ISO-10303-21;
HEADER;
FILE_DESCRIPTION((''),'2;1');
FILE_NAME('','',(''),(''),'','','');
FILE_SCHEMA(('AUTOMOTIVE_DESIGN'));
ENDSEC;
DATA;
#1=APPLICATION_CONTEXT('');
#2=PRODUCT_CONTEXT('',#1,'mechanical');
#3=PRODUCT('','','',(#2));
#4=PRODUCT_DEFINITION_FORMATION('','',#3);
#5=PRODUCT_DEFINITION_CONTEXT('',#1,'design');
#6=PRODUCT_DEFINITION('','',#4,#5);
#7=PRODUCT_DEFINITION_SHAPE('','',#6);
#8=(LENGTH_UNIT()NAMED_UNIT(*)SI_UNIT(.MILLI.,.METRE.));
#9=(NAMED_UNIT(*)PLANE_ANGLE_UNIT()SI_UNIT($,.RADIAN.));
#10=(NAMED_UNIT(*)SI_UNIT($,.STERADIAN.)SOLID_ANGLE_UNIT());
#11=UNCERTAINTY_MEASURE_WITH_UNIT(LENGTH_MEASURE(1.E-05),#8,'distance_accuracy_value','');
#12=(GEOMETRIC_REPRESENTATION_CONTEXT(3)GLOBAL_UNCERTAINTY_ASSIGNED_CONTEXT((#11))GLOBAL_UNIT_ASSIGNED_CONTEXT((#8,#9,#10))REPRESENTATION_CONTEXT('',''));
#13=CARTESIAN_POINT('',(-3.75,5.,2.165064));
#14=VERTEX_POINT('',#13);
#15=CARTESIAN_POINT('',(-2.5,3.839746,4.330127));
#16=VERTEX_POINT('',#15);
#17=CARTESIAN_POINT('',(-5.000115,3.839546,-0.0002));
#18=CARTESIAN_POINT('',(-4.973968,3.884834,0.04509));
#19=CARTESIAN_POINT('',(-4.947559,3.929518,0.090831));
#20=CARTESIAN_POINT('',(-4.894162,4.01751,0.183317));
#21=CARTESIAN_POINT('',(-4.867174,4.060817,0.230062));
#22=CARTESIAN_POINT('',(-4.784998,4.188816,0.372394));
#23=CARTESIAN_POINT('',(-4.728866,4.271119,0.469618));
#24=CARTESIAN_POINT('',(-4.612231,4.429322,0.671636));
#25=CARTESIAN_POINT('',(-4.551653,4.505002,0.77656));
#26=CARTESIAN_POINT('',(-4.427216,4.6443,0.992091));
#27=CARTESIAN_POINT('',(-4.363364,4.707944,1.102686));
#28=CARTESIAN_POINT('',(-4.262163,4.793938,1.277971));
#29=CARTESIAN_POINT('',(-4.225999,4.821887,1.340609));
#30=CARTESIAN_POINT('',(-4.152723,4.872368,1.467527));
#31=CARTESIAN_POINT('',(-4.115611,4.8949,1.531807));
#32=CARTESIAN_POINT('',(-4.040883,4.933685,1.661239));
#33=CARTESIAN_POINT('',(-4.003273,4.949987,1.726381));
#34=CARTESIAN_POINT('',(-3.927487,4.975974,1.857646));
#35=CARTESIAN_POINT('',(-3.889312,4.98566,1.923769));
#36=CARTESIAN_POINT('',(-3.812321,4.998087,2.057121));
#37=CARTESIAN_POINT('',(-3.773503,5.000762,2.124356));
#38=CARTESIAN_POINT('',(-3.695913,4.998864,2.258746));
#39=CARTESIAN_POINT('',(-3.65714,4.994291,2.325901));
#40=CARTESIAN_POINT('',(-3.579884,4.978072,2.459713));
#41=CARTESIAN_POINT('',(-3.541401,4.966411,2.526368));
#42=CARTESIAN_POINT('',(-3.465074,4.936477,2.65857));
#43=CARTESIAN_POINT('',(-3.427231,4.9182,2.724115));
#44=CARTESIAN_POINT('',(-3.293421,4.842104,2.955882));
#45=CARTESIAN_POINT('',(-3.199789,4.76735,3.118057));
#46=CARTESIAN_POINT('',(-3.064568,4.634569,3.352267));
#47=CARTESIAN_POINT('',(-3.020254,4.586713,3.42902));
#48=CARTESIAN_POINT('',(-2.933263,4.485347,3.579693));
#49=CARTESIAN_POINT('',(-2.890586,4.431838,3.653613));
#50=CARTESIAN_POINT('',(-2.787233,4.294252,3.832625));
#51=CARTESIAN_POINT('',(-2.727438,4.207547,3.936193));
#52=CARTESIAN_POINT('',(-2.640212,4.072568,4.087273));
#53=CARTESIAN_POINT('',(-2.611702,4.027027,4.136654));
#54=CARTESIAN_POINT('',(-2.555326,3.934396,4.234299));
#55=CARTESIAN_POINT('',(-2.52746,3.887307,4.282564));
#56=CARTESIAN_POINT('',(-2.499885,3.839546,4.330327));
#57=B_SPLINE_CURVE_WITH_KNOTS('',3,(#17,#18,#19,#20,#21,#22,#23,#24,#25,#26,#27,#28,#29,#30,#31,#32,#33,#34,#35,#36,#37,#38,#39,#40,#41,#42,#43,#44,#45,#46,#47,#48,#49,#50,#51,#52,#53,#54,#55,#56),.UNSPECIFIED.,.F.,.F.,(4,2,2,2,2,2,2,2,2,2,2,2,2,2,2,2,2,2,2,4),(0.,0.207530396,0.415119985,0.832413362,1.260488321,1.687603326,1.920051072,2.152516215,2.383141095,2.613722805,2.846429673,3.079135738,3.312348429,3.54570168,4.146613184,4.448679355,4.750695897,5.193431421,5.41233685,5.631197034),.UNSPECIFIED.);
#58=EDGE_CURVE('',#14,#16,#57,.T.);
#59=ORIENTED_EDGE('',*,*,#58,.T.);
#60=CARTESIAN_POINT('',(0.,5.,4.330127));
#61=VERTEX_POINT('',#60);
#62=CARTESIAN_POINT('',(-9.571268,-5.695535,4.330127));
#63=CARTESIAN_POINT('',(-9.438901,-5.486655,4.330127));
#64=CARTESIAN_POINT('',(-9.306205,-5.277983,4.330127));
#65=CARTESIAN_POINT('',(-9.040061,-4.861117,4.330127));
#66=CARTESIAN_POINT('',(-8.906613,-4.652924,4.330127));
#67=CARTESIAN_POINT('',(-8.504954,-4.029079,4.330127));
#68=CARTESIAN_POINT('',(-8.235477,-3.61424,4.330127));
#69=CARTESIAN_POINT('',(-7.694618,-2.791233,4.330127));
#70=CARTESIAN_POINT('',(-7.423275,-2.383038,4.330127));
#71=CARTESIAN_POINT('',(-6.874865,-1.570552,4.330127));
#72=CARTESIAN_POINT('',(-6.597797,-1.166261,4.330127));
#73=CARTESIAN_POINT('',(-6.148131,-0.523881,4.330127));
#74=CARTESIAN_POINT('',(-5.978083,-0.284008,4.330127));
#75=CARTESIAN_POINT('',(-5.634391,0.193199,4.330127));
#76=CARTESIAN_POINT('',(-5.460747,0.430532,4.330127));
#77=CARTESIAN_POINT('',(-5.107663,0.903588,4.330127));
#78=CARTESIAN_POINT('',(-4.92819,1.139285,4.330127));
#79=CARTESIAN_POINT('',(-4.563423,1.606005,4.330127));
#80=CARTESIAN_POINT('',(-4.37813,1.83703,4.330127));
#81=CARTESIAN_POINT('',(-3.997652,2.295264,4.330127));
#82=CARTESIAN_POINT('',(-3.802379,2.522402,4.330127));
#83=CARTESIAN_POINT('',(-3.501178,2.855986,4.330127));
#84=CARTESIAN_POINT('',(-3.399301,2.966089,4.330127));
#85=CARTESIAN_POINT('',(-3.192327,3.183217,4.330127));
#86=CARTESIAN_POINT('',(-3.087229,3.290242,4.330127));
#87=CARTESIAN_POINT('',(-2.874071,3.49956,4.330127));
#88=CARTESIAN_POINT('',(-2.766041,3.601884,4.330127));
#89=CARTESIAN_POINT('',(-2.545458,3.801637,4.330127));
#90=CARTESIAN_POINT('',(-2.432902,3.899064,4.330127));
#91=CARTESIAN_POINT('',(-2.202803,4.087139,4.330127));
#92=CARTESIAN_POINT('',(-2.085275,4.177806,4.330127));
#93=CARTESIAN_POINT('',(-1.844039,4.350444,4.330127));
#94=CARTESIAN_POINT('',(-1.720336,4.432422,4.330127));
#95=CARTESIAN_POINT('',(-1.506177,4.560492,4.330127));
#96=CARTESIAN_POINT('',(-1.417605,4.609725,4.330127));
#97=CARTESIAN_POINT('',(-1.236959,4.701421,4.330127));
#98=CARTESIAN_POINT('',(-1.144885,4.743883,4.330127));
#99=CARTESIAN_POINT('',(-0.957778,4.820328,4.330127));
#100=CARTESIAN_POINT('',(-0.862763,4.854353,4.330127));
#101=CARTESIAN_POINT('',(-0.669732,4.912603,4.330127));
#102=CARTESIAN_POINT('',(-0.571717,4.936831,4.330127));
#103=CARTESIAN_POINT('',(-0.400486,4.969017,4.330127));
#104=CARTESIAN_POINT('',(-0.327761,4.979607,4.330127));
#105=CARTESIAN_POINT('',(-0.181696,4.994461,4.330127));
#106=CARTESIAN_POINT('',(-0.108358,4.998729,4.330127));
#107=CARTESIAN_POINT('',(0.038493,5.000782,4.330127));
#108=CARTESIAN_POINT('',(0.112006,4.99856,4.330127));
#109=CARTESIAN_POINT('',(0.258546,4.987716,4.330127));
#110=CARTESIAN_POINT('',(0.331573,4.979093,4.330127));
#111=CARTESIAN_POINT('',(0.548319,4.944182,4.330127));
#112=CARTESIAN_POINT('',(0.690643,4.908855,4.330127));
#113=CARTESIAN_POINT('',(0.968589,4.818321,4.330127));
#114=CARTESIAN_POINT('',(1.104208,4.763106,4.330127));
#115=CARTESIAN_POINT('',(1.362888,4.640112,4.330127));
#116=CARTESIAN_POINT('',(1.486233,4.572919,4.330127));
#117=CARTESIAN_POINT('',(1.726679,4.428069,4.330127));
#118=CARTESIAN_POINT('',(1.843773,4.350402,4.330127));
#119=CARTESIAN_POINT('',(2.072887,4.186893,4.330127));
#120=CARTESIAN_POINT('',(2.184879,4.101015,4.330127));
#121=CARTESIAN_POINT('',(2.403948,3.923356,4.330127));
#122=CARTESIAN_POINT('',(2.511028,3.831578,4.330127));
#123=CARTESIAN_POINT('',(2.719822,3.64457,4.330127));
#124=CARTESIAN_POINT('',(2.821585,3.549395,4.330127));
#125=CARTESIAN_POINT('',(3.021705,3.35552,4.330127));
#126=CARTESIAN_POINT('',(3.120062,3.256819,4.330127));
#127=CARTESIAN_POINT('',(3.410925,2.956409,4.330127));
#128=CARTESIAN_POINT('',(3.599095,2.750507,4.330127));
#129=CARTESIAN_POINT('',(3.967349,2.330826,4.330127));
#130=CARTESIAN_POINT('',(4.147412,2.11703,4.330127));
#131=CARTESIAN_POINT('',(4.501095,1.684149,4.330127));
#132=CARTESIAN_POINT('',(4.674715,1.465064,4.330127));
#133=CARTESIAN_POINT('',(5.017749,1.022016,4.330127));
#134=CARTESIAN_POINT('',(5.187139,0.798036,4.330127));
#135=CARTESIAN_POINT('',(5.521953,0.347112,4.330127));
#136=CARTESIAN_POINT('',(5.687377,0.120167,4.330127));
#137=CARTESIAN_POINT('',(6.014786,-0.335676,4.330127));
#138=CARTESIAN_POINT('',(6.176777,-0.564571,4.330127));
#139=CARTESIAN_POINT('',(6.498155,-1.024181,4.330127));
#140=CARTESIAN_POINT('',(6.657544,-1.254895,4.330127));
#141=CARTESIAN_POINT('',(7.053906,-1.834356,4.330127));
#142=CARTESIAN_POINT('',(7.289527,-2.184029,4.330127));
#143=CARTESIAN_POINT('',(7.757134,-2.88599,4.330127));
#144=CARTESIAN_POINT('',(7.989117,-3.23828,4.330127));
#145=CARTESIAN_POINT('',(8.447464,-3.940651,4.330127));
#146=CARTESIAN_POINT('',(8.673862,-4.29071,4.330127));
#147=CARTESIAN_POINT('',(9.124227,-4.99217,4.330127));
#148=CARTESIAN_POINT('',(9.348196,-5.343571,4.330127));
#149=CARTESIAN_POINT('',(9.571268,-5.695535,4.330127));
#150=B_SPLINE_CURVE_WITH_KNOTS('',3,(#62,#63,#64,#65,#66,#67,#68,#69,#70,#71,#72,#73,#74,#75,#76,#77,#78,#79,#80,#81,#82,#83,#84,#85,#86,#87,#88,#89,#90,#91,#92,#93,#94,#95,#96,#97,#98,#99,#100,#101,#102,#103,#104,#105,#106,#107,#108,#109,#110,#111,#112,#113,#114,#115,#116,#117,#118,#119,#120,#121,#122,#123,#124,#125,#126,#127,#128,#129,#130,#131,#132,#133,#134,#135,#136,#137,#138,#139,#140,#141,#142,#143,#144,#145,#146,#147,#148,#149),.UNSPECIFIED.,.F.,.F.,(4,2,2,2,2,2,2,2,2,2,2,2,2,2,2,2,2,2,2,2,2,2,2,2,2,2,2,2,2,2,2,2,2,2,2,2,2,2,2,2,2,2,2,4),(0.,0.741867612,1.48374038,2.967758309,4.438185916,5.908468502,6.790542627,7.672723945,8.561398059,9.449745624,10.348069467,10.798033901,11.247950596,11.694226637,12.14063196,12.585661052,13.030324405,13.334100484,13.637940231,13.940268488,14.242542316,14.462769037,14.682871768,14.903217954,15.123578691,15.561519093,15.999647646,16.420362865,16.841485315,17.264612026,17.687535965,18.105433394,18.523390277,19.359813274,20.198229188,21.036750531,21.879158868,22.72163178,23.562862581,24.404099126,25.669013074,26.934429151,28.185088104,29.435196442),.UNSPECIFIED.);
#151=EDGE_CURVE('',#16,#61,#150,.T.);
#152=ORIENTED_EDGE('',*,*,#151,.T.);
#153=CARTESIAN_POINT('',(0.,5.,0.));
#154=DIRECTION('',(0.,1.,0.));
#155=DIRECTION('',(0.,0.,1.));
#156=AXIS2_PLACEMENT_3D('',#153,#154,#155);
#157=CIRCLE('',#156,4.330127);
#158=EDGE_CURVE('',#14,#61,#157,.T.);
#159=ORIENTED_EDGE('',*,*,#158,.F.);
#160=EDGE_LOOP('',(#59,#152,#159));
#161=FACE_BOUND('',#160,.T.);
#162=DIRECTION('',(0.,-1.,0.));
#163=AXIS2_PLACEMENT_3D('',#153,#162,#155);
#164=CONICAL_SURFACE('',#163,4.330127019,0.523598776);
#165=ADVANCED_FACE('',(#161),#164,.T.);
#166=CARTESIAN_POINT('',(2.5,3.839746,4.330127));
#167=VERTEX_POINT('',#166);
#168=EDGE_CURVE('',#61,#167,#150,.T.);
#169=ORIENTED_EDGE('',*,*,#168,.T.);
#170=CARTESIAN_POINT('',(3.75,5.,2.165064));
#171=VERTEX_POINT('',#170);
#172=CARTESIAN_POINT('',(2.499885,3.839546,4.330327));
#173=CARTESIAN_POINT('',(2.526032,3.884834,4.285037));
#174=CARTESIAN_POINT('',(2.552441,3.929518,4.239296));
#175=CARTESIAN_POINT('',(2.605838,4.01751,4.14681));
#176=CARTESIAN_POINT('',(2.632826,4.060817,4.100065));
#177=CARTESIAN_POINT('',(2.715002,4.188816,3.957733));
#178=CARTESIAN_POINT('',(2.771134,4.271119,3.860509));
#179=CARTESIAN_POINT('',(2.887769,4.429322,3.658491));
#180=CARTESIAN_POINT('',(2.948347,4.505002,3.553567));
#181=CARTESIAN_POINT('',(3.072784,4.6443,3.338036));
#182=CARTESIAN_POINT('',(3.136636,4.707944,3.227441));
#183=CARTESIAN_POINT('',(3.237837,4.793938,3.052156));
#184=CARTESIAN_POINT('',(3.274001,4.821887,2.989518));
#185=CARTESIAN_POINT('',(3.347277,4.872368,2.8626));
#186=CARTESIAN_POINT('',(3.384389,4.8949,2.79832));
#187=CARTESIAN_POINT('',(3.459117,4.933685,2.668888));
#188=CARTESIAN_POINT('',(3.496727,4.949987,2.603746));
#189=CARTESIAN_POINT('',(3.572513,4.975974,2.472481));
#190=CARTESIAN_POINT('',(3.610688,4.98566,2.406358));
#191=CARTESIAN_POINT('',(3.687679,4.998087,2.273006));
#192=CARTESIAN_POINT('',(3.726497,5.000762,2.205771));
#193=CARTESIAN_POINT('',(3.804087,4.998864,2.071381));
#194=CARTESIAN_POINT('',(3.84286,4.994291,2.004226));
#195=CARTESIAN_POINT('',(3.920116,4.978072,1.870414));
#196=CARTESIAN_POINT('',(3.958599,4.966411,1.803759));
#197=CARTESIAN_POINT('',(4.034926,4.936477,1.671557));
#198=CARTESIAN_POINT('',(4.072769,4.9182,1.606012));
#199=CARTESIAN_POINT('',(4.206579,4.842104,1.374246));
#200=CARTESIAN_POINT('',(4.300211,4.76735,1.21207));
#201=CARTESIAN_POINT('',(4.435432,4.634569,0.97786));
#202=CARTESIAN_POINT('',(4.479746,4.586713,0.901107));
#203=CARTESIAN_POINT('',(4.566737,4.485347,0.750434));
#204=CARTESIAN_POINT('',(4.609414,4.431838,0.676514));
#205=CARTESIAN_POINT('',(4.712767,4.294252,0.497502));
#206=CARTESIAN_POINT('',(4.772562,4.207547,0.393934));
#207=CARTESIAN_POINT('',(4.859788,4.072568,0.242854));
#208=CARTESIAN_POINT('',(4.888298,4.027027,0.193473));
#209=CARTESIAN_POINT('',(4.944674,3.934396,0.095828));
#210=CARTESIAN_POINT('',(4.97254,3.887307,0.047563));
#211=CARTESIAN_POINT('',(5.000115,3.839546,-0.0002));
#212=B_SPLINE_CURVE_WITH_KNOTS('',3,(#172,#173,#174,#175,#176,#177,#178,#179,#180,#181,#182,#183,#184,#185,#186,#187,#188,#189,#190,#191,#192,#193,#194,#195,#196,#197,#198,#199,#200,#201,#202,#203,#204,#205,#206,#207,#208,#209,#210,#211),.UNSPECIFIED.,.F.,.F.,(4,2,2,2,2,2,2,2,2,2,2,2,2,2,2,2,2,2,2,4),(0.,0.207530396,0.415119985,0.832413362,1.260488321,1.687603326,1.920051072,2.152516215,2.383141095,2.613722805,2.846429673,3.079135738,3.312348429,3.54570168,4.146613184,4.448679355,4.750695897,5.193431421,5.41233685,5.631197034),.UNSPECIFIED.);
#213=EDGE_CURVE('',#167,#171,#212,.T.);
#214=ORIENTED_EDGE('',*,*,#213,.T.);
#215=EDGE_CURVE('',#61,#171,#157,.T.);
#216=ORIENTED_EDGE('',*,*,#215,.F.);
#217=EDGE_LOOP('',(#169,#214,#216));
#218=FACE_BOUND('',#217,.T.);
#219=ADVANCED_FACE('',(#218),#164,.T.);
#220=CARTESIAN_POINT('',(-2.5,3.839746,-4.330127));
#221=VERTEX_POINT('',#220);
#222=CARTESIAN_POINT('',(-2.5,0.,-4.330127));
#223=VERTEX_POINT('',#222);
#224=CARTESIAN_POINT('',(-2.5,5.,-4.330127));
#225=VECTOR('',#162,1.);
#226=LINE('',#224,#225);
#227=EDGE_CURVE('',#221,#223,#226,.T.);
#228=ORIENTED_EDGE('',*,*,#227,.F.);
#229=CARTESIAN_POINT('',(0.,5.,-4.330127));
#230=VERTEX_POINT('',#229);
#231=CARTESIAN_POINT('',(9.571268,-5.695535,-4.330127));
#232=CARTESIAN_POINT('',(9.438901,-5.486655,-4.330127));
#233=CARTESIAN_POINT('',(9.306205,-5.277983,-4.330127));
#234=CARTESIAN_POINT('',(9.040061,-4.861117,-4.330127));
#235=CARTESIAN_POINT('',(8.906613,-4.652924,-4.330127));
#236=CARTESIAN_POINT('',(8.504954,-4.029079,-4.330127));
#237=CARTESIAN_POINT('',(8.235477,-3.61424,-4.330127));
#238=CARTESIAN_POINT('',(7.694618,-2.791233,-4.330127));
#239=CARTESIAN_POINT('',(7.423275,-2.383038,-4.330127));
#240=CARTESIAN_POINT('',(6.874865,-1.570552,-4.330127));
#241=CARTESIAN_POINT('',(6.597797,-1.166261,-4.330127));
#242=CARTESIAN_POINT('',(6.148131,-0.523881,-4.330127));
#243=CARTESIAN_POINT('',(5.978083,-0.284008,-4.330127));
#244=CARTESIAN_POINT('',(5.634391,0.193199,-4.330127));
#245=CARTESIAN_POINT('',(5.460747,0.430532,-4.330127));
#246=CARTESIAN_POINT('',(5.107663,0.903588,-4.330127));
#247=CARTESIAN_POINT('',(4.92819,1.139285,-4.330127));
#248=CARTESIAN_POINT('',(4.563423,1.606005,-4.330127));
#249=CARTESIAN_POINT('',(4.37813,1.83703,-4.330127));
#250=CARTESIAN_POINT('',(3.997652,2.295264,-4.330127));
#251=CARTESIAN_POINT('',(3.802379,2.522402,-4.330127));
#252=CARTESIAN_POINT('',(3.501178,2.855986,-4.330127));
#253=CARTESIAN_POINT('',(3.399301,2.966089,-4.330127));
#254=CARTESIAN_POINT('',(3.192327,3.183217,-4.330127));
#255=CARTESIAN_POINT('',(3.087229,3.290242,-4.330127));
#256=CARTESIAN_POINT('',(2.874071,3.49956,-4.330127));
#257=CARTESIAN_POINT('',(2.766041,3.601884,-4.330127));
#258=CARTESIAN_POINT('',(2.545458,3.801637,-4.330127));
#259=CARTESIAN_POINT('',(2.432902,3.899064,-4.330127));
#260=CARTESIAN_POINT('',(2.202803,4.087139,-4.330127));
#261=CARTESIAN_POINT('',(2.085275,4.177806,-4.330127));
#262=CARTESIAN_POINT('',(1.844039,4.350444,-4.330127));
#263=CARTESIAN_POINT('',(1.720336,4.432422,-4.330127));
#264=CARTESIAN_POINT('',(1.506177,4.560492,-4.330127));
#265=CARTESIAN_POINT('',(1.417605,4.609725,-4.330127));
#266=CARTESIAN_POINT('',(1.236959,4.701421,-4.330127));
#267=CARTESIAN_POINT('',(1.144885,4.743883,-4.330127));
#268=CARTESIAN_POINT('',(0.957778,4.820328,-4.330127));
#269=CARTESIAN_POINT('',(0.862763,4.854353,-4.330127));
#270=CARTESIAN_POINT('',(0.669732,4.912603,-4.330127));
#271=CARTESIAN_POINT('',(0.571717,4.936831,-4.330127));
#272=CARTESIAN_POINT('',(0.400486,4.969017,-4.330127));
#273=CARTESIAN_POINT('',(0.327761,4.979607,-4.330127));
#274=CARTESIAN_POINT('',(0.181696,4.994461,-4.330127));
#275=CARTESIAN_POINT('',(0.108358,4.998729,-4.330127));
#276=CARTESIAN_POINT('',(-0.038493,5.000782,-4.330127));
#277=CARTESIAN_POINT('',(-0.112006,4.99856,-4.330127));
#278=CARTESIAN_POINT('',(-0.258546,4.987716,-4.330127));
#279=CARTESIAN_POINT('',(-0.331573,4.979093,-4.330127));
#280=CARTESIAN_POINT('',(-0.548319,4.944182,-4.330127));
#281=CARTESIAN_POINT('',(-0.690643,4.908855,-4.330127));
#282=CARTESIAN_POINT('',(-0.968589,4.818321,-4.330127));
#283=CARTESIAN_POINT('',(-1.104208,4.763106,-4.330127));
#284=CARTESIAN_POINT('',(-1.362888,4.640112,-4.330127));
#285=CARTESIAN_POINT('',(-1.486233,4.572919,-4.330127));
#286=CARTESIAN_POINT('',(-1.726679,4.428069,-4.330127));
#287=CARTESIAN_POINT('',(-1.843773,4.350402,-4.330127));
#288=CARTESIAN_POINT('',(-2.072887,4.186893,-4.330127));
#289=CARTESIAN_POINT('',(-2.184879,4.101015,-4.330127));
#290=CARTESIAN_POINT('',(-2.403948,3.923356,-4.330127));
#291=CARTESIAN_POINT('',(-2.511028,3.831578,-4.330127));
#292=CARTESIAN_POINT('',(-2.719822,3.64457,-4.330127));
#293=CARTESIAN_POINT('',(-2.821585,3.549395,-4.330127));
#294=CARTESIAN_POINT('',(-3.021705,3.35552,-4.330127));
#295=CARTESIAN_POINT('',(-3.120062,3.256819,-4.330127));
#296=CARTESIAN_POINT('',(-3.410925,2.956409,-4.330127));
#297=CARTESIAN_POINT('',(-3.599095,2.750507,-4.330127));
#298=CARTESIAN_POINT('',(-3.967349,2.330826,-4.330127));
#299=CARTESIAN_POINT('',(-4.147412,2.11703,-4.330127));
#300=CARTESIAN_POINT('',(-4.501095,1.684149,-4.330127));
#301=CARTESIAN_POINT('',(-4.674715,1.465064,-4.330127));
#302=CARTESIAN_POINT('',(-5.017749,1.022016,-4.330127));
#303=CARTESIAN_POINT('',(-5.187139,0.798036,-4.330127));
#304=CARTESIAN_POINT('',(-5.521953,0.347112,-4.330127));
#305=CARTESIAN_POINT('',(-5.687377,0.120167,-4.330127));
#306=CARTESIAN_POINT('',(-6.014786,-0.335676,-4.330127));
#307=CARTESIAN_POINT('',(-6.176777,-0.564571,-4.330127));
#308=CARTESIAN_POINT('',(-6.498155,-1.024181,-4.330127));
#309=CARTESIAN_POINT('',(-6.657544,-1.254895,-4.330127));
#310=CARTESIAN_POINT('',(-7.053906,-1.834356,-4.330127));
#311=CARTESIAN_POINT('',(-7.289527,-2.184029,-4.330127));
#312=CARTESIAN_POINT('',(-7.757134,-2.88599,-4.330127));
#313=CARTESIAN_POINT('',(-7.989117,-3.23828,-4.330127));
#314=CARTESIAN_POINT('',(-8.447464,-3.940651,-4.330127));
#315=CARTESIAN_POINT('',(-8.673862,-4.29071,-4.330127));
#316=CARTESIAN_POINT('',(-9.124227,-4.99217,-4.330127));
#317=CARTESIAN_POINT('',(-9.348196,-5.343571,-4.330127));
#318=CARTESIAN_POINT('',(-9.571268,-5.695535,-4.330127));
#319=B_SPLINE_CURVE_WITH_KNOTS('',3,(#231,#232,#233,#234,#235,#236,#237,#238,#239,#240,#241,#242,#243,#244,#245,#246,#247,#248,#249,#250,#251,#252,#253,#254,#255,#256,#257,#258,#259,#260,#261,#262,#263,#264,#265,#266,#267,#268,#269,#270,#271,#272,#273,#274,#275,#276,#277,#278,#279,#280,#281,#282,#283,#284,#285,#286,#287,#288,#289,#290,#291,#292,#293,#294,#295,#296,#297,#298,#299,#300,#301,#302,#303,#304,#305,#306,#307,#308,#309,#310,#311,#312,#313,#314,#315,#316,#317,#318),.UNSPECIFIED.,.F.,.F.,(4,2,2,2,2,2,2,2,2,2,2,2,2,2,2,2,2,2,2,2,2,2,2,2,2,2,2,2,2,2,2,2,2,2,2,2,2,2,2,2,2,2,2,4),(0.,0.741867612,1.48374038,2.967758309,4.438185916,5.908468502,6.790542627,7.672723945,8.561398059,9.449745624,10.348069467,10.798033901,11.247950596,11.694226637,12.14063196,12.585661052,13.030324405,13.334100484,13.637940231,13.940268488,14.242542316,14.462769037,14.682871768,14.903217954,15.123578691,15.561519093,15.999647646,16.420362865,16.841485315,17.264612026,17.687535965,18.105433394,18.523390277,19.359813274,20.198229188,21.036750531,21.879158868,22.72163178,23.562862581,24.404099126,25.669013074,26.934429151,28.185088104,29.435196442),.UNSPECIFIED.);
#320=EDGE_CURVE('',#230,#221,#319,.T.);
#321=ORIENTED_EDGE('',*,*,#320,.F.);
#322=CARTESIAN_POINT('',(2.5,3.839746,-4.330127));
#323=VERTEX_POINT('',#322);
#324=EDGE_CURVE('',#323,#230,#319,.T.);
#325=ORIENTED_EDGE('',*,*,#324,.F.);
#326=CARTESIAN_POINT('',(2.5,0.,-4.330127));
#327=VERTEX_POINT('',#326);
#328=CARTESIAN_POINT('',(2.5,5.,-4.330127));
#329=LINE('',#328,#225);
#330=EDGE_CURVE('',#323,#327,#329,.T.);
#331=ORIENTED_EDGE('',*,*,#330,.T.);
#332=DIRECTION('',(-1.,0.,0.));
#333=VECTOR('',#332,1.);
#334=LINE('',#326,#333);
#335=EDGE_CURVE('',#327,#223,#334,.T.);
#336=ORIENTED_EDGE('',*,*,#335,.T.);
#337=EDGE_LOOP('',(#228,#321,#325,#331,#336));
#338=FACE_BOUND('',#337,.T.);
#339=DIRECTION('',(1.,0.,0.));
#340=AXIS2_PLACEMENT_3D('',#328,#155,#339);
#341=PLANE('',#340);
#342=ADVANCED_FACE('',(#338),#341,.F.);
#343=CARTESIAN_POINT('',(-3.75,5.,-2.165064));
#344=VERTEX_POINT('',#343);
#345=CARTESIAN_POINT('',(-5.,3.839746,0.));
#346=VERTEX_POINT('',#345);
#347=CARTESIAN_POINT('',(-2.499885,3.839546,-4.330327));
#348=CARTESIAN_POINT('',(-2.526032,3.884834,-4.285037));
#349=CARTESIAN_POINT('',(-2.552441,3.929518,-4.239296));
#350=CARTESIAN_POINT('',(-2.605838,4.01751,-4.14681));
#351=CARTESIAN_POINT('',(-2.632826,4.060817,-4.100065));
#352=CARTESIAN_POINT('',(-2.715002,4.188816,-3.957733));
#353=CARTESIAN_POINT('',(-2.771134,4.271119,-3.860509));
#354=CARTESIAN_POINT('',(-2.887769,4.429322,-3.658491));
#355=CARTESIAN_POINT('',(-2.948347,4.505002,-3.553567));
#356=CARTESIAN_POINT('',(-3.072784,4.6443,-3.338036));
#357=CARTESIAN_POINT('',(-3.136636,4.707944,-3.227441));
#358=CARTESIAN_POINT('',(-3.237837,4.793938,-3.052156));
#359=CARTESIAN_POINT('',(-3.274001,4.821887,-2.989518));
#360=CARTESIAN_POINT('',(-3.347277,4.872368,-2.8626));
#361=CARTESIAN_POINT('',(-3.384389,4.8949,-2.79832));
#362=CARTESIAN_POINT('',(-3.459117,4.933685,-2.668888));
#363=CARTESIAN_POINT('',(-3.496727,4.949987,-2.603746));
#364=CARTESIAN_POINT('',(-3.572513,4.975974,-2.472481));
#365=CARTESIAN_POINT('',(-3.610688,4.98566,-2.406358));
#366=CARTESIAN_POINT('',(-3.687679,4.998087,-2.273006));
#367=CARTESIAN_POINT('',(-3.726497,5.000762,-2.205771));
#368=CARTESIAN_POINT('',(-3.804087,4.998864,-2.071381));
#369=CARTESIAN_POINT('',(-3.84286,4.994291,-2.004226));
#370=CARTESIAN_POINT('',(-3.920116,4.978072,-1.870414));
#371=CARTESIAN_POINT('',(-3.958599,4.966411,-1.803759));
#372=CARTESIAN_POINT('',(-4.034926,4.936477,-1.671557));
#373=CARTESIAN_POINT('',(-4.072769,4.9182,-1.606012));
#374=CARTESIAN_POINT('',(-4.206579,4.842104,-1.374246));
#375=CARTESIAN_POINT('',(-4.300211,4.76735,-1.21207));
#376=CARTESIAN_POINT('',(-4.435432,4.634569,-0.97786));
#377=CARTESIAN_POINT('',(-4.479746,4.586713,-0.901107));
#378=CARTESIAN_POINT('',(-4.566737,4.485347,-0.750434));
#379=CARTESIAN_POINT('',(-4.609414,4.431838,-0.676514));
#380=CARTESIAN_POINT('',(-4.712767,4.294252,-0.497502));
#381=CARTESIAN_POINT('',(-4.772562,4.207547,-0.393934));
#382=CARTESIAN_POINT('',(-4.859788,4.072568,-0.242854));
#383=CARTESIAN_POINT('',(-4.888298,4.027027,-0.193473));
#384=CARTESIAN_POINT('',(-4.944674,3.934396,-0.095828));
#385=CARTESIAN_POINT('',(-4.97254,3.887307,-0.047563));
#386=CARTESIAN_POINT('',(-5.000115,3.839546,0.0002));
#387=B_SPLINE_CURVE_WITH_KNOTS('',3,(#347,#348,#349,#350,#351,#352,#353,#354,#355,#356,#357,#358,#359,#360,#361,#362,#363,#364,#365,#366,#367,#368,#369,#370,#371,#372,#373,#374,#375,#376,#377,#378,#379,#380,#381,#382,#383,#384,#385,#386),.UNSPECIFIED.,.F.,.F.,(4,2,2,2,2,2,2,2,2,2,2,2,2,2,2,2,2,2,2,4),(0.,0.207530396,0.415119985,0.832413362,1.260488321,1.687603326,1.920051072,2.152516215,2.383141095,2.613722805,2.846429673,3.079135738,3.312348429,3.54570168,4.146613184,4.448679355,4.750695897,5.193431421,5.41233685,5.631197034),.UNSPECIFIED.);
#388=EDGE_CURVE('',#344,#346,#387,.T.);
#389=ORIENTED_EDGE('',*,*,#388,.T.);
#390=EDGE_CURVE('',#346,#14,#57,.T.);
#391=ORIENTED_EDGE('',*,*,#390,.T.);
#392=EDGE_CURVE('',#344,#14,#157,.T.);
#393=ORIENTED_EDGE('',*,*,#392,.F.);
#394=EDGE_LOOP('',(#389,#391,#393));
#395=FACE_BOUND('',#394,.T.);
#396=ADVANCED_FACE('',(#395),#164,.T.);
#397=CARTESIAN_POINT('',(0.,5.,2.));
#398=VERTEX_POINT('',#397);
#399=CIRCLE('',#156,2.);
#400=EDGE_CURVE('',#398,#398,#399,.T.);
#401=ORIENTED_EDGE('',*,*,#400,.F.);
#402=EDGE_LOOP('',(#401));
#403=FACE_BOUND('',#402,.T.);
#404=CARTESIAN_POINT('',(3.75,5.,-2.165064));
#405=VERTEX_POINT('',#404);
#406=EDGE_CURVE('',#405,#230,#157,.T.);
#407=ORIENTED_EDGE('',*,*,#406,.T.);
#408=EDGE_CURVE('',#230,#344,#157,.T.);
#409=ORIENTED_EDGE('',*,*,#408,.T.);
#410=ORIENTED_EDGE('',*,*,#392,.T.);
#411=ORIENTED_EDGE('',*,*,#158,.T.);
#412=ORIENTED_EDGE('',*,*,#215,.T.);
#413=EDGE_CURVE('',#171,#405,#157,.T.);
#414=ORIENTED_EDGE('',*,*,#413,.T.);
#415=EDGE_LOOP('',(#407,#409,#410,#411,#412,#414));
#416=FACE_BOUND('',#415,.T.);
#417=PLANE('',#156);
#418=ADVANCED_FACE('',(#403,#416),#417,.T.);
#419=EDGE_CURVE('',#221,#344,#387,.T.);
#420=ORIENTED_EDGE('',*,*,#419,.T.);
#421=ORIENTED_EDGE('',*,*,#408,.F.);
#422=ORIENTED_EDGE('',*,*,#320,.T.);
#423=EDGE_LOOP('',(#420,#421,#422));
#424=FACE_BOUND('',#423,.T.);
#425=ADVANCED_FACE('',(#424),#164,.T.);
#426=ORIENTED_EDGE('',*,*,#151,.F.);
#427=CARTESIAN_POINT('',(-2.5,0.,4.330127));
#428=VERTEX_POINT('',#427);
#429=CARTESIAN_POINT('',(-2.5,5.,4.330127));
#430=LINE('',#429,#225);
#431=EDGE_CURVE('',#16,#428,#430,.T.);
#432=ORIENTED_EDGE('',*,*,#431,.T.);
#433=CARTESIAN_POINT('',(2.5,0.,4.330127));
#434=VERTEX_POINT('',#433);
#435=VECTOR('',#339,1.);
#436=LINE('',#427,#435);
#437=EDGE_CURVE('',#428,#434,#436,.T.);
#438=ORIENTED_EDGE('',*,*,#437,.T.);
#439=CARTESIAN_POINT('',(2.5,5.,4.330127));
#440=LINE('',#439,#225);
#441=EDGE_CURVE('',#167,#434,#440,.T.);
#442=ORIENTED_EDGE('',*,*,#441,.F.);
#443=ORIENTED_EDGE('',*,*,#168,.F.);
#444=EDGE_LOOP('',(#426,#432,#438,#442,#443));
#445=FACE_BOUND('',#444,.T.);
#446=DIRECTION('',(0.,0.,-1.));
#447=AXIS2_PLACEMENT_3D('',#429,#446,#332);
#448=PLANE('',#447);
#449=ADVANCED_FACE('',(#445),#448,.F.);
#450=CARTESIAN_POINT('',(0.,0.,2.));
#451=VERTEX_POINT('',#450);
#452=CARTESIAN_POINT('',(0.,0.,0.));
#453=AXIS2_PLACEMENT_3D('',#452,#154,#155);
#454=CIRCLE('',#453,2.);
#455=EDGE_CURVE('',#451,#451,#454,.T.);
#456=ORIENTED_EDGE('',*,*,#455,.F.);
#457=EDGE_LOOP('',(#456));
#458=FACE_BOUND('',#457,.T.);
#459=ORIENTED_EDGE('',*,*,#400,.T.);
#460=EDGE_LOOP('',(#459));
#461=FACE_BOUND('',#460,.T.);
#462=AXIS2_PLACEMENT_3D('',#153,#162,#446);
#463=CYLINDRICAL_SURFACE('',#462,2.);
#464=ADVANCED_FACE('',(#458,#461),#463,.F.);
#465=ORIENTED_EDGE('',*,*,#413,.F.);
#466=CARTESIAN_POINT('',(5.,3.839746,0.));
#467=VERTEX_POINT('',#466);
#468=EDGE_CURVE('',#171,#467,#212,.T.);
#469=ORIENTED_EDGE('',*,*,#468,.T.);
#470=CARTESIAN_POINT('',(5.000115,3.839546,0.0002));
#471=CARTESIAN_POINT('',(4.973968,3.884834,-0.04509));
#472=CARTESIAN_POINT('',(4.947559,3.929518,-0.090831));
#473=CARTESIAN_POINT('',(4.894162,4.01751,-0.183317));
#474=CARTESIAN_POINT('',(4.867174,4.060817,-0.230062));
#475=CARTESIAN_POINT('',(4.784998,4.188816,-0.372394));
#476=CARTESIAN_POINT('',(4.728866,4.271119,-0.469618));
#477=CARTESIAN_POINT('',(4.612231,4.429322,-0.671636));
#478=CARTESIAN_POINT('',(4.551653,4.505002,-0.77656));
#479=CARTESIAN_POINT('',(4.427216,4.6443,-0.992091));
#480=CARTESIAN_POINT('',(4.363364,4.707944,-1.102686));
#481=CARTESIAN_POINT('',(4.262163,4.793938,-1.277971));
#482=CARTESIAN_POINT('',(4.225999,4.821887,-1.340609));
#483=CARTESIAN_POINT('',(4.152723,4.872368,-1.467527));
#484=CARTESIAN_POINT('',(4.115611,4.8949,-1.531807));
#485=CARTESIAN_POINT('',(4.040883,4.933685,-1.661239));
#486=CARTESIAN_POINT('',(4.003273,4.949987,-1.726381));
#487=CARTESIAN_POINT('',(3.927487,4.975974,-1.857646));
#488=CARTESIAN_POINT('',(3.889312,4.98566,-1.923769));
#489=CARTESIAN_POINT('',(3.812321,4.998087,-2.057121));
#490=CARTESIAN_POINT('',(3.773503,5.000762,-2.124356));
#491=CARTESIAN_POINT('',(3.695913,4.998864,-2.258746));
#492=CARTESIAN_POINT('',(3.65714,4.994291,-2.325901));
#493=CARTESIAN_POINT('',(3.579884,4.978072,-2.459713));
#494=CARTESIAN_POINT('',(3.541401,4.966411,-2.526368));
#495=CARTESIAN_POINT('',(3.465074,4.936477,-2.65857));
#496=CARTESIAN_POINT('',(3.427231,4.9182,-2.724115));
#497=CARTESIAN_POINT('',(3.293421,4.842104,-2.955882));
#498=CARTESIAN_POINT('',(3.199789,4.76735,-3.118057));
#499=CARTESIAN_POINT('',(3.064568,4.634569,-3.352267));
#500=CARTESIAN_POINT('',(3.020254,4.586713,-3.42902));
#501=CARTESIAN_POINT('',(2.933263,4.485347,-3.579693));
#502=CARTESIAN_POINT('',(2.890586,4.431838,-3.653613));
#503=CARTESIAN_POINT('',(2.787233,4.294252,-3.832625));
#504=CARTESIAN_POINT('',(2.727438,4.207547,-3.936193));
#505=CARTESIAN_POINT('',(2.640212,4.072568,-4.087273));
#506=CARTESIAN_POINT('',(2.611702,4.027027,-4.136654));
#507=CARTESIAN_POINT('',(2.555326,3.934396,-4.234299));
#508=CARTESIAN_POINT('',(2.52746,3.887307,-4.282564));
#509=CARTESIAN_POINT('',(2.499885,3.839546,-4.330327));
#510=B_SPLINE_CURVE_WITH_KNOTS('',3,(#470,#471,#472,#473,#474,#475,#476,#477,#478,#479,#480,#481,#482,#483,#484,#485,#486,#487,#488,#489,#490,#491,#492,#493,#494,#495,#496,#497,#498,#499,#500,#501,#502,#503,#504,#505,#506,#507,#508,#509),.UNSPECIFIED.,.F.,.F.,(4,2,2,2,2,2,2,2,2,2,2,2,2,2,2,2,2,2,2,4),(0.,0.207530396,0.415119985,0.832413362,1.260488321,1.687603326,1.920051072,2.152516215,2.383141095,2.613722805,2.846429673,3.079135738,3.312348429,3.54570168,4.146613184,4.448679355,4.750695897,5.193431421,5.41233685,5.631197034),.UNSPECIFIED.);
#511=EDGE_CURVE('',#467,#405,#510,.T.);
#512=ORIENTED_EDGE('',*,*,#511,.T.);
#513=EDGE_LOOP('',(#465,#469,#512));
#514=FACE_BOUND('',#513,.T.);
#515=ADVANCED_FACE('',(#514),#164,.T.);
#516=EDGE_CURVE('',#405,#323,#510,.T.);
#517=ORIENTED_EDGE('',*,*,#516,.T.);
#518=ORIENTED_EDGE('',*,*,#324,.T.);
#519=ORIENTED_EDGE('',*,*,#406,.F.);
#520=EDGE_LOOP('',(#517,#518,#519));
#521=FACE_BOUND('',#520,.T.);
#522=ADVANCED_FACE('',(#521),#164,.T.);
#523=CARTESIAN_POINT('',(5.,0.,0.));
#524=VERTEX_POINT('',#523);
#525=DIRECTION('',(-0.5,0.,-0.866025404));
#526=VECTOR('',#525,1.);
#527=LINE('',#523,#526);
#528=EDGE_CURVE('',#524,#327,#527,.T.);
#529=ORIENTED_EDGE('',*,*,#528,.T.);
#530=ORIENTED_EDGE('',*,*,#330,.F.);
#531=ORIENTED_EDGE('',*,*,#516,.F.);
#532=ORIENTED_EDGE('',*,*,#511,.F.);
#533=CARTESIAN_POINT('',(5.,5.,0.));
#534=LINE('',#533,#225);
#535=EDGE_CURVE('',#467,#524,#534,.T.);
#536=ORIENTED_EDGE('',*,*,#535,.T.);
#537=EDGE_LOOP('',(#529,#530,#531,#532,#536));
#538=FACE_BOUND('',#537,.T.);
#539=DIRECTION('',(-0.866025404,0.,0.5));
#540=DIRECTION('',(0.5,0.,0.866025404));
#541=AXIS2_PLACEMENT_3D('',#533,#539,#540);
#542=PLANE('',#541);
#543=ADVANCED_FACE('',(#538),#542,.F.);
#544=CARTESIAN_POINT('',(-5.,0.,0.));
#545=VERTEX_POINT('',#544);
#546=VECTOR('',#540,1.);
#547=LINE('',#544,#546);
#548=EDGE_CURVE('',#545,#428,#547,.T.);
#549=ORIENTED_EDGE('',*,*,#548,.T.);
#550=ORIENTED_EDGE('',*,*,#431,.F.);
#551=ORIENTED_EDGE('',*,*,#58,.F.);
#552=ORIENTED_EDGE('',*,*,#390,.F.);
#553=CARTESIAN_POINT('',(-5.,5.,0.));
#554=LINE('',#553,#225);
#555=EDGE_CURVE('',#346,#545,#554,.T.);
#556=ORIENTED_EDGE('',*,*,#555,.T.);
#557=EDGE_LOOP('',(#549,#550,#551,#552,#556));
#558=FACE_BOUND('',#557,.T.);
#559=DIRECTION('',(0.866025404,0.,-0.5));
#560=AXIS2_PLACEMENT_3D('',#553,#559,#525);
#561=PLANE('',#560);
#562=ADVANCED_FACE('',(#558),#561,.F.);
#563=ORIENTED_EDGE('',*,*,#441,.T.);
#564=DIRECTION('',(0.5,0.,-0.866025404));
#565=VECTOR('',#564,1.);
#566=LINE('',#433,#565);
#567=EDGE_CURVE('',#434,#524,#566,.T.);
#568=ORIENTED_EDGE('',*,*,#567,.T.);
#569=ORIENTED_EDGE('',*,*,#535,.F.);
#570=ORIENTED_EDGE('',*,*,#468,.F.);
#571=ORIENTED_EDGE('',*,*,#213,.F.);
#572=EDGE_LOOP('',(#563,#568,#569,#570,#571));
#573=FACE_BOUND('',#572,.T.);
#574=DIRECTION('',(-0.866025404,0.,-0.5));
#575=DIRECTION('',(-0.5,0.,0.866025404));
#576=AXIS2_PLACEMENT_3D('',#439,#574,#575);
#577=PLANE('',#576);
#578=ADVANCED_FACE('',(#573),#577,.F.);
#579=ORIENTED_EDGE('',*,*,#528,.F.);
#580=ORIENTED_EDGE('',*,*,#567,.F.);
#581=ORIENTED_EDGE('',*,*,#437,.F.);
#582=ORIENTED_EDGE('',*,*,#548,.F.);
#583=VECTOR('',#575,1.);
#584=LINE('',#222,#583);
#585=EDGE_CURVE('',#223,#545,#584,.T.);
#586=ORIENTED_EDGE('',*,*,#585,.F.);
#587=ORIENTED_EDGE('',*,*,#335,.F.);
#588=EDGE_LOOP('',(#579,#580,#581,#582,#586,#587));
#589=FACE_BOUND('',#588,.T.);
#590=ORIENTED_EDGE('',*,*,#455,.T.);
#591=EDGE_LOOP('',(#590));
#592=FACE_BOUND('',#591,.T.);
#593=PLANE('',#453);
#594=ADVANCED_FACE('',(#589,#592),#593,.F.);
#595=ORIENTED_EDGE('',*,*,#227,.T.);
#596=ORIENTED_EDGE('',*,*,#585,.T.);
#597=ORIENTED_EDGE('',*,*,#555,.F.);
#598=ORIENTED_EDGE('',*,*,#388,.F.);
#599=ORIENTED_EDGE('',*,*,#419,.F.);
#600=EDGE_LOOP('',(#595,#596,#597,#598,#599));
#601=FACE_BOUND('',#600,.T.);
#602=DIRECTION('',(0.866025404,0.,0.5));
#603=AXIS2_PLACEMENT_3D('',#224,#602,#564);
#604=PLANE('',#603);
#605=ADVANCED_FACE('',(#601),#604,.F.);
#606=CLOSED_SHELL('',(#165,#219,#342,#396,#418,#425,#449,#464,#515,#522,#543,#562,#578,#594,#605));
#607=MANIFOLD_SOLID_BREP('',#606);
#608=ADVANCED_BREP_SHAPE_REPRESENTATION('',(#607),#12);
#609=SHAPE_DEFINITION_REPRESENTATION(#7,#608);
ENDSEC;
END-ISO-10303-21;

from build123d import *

# Parameters (mm, degrees)
SKETCH1_R           = 2
BOSS_EXTRUDE1_DEPTH = 5
SKETCH2_OUTSIDE_W   = 25.558
SKETCH2_OUTSIDE_H   = 24.218
SKETCH2_OUTSIDE_R   = 4.330127019
CUT_EXTRUDE1_DEPTH  = 9.291561976
CUT_EXTRUDE1_DRAFT  = -30


with BuildPart() as part:
    # Sketch1 → Boss-Extrude1 (new body)
    with BuildSketch(Plane(origin=(0, 0, 0), x_dir=(1, 0, 0), z_dir=(0, 1, 0))):
        Polygon((5, 0), (2.5, 4.330127019), (-2.5, 4.330127019), (-5, 0), (-2.5, -4.330127019), (2.5, -4.330127019), align=None)
        with Locations(Location((0, 0, 0), (0, 0, 270))):
            Circle(SKETCH1_R, mode=Mode.SUBTRACT)
    extrude(amount=BOSS_EXTRUDE1_DEPTH)


with BuildPart() as cut_extrude1_tool:
    # Sketch2 outside → Cut-Extrude1 (with draft: the straight prism first)
    with BuildSketch(Plane(origin=(0, 5, 0), x_dir=(1, 0, 0), z_dir=(0, 1, 0))):
        Rectangle(SKETCH2_OUTSIDE_W, SKETCH2_OUTSIDE_H)
        Circle(SKETCH2_OUTSIDE_R, mode=Mode.SUBTRACT)
    extrude(amount=-CUT_EXTRUDE1_DEPTH)
    # Cut-Extrude1: the draft: its side faces are tilted about the plane it starts from
    cut_extrude1_sides = [cut_extrude1_tool.faces().sort_by_distance(p)[0] for p in [
        (0, 0.354219012, 12.109),
        (12.779, 0.354219012, 0),
        (0, 0.354219012, -12.109),
        (-12.779, 0.354219012, 0),
        (-4.330127019, 0.354219012, 0),
    ]]
    draft(cut_extrude1_sides, Plane(origin=(0, 5, 0), x_dir=(1, 0, 0), z_dir=(0, 1, 0)), CUT_EXTRUDE1_DRAFT)


with BuildPart() as part_1:
    add(part.part)

    # Cut-Extrude1: cut by cut_extrude1_tool
    add(cut_extrude1_tool.part, mode=Mode.SUBTRACT)


solid = part_1.part
